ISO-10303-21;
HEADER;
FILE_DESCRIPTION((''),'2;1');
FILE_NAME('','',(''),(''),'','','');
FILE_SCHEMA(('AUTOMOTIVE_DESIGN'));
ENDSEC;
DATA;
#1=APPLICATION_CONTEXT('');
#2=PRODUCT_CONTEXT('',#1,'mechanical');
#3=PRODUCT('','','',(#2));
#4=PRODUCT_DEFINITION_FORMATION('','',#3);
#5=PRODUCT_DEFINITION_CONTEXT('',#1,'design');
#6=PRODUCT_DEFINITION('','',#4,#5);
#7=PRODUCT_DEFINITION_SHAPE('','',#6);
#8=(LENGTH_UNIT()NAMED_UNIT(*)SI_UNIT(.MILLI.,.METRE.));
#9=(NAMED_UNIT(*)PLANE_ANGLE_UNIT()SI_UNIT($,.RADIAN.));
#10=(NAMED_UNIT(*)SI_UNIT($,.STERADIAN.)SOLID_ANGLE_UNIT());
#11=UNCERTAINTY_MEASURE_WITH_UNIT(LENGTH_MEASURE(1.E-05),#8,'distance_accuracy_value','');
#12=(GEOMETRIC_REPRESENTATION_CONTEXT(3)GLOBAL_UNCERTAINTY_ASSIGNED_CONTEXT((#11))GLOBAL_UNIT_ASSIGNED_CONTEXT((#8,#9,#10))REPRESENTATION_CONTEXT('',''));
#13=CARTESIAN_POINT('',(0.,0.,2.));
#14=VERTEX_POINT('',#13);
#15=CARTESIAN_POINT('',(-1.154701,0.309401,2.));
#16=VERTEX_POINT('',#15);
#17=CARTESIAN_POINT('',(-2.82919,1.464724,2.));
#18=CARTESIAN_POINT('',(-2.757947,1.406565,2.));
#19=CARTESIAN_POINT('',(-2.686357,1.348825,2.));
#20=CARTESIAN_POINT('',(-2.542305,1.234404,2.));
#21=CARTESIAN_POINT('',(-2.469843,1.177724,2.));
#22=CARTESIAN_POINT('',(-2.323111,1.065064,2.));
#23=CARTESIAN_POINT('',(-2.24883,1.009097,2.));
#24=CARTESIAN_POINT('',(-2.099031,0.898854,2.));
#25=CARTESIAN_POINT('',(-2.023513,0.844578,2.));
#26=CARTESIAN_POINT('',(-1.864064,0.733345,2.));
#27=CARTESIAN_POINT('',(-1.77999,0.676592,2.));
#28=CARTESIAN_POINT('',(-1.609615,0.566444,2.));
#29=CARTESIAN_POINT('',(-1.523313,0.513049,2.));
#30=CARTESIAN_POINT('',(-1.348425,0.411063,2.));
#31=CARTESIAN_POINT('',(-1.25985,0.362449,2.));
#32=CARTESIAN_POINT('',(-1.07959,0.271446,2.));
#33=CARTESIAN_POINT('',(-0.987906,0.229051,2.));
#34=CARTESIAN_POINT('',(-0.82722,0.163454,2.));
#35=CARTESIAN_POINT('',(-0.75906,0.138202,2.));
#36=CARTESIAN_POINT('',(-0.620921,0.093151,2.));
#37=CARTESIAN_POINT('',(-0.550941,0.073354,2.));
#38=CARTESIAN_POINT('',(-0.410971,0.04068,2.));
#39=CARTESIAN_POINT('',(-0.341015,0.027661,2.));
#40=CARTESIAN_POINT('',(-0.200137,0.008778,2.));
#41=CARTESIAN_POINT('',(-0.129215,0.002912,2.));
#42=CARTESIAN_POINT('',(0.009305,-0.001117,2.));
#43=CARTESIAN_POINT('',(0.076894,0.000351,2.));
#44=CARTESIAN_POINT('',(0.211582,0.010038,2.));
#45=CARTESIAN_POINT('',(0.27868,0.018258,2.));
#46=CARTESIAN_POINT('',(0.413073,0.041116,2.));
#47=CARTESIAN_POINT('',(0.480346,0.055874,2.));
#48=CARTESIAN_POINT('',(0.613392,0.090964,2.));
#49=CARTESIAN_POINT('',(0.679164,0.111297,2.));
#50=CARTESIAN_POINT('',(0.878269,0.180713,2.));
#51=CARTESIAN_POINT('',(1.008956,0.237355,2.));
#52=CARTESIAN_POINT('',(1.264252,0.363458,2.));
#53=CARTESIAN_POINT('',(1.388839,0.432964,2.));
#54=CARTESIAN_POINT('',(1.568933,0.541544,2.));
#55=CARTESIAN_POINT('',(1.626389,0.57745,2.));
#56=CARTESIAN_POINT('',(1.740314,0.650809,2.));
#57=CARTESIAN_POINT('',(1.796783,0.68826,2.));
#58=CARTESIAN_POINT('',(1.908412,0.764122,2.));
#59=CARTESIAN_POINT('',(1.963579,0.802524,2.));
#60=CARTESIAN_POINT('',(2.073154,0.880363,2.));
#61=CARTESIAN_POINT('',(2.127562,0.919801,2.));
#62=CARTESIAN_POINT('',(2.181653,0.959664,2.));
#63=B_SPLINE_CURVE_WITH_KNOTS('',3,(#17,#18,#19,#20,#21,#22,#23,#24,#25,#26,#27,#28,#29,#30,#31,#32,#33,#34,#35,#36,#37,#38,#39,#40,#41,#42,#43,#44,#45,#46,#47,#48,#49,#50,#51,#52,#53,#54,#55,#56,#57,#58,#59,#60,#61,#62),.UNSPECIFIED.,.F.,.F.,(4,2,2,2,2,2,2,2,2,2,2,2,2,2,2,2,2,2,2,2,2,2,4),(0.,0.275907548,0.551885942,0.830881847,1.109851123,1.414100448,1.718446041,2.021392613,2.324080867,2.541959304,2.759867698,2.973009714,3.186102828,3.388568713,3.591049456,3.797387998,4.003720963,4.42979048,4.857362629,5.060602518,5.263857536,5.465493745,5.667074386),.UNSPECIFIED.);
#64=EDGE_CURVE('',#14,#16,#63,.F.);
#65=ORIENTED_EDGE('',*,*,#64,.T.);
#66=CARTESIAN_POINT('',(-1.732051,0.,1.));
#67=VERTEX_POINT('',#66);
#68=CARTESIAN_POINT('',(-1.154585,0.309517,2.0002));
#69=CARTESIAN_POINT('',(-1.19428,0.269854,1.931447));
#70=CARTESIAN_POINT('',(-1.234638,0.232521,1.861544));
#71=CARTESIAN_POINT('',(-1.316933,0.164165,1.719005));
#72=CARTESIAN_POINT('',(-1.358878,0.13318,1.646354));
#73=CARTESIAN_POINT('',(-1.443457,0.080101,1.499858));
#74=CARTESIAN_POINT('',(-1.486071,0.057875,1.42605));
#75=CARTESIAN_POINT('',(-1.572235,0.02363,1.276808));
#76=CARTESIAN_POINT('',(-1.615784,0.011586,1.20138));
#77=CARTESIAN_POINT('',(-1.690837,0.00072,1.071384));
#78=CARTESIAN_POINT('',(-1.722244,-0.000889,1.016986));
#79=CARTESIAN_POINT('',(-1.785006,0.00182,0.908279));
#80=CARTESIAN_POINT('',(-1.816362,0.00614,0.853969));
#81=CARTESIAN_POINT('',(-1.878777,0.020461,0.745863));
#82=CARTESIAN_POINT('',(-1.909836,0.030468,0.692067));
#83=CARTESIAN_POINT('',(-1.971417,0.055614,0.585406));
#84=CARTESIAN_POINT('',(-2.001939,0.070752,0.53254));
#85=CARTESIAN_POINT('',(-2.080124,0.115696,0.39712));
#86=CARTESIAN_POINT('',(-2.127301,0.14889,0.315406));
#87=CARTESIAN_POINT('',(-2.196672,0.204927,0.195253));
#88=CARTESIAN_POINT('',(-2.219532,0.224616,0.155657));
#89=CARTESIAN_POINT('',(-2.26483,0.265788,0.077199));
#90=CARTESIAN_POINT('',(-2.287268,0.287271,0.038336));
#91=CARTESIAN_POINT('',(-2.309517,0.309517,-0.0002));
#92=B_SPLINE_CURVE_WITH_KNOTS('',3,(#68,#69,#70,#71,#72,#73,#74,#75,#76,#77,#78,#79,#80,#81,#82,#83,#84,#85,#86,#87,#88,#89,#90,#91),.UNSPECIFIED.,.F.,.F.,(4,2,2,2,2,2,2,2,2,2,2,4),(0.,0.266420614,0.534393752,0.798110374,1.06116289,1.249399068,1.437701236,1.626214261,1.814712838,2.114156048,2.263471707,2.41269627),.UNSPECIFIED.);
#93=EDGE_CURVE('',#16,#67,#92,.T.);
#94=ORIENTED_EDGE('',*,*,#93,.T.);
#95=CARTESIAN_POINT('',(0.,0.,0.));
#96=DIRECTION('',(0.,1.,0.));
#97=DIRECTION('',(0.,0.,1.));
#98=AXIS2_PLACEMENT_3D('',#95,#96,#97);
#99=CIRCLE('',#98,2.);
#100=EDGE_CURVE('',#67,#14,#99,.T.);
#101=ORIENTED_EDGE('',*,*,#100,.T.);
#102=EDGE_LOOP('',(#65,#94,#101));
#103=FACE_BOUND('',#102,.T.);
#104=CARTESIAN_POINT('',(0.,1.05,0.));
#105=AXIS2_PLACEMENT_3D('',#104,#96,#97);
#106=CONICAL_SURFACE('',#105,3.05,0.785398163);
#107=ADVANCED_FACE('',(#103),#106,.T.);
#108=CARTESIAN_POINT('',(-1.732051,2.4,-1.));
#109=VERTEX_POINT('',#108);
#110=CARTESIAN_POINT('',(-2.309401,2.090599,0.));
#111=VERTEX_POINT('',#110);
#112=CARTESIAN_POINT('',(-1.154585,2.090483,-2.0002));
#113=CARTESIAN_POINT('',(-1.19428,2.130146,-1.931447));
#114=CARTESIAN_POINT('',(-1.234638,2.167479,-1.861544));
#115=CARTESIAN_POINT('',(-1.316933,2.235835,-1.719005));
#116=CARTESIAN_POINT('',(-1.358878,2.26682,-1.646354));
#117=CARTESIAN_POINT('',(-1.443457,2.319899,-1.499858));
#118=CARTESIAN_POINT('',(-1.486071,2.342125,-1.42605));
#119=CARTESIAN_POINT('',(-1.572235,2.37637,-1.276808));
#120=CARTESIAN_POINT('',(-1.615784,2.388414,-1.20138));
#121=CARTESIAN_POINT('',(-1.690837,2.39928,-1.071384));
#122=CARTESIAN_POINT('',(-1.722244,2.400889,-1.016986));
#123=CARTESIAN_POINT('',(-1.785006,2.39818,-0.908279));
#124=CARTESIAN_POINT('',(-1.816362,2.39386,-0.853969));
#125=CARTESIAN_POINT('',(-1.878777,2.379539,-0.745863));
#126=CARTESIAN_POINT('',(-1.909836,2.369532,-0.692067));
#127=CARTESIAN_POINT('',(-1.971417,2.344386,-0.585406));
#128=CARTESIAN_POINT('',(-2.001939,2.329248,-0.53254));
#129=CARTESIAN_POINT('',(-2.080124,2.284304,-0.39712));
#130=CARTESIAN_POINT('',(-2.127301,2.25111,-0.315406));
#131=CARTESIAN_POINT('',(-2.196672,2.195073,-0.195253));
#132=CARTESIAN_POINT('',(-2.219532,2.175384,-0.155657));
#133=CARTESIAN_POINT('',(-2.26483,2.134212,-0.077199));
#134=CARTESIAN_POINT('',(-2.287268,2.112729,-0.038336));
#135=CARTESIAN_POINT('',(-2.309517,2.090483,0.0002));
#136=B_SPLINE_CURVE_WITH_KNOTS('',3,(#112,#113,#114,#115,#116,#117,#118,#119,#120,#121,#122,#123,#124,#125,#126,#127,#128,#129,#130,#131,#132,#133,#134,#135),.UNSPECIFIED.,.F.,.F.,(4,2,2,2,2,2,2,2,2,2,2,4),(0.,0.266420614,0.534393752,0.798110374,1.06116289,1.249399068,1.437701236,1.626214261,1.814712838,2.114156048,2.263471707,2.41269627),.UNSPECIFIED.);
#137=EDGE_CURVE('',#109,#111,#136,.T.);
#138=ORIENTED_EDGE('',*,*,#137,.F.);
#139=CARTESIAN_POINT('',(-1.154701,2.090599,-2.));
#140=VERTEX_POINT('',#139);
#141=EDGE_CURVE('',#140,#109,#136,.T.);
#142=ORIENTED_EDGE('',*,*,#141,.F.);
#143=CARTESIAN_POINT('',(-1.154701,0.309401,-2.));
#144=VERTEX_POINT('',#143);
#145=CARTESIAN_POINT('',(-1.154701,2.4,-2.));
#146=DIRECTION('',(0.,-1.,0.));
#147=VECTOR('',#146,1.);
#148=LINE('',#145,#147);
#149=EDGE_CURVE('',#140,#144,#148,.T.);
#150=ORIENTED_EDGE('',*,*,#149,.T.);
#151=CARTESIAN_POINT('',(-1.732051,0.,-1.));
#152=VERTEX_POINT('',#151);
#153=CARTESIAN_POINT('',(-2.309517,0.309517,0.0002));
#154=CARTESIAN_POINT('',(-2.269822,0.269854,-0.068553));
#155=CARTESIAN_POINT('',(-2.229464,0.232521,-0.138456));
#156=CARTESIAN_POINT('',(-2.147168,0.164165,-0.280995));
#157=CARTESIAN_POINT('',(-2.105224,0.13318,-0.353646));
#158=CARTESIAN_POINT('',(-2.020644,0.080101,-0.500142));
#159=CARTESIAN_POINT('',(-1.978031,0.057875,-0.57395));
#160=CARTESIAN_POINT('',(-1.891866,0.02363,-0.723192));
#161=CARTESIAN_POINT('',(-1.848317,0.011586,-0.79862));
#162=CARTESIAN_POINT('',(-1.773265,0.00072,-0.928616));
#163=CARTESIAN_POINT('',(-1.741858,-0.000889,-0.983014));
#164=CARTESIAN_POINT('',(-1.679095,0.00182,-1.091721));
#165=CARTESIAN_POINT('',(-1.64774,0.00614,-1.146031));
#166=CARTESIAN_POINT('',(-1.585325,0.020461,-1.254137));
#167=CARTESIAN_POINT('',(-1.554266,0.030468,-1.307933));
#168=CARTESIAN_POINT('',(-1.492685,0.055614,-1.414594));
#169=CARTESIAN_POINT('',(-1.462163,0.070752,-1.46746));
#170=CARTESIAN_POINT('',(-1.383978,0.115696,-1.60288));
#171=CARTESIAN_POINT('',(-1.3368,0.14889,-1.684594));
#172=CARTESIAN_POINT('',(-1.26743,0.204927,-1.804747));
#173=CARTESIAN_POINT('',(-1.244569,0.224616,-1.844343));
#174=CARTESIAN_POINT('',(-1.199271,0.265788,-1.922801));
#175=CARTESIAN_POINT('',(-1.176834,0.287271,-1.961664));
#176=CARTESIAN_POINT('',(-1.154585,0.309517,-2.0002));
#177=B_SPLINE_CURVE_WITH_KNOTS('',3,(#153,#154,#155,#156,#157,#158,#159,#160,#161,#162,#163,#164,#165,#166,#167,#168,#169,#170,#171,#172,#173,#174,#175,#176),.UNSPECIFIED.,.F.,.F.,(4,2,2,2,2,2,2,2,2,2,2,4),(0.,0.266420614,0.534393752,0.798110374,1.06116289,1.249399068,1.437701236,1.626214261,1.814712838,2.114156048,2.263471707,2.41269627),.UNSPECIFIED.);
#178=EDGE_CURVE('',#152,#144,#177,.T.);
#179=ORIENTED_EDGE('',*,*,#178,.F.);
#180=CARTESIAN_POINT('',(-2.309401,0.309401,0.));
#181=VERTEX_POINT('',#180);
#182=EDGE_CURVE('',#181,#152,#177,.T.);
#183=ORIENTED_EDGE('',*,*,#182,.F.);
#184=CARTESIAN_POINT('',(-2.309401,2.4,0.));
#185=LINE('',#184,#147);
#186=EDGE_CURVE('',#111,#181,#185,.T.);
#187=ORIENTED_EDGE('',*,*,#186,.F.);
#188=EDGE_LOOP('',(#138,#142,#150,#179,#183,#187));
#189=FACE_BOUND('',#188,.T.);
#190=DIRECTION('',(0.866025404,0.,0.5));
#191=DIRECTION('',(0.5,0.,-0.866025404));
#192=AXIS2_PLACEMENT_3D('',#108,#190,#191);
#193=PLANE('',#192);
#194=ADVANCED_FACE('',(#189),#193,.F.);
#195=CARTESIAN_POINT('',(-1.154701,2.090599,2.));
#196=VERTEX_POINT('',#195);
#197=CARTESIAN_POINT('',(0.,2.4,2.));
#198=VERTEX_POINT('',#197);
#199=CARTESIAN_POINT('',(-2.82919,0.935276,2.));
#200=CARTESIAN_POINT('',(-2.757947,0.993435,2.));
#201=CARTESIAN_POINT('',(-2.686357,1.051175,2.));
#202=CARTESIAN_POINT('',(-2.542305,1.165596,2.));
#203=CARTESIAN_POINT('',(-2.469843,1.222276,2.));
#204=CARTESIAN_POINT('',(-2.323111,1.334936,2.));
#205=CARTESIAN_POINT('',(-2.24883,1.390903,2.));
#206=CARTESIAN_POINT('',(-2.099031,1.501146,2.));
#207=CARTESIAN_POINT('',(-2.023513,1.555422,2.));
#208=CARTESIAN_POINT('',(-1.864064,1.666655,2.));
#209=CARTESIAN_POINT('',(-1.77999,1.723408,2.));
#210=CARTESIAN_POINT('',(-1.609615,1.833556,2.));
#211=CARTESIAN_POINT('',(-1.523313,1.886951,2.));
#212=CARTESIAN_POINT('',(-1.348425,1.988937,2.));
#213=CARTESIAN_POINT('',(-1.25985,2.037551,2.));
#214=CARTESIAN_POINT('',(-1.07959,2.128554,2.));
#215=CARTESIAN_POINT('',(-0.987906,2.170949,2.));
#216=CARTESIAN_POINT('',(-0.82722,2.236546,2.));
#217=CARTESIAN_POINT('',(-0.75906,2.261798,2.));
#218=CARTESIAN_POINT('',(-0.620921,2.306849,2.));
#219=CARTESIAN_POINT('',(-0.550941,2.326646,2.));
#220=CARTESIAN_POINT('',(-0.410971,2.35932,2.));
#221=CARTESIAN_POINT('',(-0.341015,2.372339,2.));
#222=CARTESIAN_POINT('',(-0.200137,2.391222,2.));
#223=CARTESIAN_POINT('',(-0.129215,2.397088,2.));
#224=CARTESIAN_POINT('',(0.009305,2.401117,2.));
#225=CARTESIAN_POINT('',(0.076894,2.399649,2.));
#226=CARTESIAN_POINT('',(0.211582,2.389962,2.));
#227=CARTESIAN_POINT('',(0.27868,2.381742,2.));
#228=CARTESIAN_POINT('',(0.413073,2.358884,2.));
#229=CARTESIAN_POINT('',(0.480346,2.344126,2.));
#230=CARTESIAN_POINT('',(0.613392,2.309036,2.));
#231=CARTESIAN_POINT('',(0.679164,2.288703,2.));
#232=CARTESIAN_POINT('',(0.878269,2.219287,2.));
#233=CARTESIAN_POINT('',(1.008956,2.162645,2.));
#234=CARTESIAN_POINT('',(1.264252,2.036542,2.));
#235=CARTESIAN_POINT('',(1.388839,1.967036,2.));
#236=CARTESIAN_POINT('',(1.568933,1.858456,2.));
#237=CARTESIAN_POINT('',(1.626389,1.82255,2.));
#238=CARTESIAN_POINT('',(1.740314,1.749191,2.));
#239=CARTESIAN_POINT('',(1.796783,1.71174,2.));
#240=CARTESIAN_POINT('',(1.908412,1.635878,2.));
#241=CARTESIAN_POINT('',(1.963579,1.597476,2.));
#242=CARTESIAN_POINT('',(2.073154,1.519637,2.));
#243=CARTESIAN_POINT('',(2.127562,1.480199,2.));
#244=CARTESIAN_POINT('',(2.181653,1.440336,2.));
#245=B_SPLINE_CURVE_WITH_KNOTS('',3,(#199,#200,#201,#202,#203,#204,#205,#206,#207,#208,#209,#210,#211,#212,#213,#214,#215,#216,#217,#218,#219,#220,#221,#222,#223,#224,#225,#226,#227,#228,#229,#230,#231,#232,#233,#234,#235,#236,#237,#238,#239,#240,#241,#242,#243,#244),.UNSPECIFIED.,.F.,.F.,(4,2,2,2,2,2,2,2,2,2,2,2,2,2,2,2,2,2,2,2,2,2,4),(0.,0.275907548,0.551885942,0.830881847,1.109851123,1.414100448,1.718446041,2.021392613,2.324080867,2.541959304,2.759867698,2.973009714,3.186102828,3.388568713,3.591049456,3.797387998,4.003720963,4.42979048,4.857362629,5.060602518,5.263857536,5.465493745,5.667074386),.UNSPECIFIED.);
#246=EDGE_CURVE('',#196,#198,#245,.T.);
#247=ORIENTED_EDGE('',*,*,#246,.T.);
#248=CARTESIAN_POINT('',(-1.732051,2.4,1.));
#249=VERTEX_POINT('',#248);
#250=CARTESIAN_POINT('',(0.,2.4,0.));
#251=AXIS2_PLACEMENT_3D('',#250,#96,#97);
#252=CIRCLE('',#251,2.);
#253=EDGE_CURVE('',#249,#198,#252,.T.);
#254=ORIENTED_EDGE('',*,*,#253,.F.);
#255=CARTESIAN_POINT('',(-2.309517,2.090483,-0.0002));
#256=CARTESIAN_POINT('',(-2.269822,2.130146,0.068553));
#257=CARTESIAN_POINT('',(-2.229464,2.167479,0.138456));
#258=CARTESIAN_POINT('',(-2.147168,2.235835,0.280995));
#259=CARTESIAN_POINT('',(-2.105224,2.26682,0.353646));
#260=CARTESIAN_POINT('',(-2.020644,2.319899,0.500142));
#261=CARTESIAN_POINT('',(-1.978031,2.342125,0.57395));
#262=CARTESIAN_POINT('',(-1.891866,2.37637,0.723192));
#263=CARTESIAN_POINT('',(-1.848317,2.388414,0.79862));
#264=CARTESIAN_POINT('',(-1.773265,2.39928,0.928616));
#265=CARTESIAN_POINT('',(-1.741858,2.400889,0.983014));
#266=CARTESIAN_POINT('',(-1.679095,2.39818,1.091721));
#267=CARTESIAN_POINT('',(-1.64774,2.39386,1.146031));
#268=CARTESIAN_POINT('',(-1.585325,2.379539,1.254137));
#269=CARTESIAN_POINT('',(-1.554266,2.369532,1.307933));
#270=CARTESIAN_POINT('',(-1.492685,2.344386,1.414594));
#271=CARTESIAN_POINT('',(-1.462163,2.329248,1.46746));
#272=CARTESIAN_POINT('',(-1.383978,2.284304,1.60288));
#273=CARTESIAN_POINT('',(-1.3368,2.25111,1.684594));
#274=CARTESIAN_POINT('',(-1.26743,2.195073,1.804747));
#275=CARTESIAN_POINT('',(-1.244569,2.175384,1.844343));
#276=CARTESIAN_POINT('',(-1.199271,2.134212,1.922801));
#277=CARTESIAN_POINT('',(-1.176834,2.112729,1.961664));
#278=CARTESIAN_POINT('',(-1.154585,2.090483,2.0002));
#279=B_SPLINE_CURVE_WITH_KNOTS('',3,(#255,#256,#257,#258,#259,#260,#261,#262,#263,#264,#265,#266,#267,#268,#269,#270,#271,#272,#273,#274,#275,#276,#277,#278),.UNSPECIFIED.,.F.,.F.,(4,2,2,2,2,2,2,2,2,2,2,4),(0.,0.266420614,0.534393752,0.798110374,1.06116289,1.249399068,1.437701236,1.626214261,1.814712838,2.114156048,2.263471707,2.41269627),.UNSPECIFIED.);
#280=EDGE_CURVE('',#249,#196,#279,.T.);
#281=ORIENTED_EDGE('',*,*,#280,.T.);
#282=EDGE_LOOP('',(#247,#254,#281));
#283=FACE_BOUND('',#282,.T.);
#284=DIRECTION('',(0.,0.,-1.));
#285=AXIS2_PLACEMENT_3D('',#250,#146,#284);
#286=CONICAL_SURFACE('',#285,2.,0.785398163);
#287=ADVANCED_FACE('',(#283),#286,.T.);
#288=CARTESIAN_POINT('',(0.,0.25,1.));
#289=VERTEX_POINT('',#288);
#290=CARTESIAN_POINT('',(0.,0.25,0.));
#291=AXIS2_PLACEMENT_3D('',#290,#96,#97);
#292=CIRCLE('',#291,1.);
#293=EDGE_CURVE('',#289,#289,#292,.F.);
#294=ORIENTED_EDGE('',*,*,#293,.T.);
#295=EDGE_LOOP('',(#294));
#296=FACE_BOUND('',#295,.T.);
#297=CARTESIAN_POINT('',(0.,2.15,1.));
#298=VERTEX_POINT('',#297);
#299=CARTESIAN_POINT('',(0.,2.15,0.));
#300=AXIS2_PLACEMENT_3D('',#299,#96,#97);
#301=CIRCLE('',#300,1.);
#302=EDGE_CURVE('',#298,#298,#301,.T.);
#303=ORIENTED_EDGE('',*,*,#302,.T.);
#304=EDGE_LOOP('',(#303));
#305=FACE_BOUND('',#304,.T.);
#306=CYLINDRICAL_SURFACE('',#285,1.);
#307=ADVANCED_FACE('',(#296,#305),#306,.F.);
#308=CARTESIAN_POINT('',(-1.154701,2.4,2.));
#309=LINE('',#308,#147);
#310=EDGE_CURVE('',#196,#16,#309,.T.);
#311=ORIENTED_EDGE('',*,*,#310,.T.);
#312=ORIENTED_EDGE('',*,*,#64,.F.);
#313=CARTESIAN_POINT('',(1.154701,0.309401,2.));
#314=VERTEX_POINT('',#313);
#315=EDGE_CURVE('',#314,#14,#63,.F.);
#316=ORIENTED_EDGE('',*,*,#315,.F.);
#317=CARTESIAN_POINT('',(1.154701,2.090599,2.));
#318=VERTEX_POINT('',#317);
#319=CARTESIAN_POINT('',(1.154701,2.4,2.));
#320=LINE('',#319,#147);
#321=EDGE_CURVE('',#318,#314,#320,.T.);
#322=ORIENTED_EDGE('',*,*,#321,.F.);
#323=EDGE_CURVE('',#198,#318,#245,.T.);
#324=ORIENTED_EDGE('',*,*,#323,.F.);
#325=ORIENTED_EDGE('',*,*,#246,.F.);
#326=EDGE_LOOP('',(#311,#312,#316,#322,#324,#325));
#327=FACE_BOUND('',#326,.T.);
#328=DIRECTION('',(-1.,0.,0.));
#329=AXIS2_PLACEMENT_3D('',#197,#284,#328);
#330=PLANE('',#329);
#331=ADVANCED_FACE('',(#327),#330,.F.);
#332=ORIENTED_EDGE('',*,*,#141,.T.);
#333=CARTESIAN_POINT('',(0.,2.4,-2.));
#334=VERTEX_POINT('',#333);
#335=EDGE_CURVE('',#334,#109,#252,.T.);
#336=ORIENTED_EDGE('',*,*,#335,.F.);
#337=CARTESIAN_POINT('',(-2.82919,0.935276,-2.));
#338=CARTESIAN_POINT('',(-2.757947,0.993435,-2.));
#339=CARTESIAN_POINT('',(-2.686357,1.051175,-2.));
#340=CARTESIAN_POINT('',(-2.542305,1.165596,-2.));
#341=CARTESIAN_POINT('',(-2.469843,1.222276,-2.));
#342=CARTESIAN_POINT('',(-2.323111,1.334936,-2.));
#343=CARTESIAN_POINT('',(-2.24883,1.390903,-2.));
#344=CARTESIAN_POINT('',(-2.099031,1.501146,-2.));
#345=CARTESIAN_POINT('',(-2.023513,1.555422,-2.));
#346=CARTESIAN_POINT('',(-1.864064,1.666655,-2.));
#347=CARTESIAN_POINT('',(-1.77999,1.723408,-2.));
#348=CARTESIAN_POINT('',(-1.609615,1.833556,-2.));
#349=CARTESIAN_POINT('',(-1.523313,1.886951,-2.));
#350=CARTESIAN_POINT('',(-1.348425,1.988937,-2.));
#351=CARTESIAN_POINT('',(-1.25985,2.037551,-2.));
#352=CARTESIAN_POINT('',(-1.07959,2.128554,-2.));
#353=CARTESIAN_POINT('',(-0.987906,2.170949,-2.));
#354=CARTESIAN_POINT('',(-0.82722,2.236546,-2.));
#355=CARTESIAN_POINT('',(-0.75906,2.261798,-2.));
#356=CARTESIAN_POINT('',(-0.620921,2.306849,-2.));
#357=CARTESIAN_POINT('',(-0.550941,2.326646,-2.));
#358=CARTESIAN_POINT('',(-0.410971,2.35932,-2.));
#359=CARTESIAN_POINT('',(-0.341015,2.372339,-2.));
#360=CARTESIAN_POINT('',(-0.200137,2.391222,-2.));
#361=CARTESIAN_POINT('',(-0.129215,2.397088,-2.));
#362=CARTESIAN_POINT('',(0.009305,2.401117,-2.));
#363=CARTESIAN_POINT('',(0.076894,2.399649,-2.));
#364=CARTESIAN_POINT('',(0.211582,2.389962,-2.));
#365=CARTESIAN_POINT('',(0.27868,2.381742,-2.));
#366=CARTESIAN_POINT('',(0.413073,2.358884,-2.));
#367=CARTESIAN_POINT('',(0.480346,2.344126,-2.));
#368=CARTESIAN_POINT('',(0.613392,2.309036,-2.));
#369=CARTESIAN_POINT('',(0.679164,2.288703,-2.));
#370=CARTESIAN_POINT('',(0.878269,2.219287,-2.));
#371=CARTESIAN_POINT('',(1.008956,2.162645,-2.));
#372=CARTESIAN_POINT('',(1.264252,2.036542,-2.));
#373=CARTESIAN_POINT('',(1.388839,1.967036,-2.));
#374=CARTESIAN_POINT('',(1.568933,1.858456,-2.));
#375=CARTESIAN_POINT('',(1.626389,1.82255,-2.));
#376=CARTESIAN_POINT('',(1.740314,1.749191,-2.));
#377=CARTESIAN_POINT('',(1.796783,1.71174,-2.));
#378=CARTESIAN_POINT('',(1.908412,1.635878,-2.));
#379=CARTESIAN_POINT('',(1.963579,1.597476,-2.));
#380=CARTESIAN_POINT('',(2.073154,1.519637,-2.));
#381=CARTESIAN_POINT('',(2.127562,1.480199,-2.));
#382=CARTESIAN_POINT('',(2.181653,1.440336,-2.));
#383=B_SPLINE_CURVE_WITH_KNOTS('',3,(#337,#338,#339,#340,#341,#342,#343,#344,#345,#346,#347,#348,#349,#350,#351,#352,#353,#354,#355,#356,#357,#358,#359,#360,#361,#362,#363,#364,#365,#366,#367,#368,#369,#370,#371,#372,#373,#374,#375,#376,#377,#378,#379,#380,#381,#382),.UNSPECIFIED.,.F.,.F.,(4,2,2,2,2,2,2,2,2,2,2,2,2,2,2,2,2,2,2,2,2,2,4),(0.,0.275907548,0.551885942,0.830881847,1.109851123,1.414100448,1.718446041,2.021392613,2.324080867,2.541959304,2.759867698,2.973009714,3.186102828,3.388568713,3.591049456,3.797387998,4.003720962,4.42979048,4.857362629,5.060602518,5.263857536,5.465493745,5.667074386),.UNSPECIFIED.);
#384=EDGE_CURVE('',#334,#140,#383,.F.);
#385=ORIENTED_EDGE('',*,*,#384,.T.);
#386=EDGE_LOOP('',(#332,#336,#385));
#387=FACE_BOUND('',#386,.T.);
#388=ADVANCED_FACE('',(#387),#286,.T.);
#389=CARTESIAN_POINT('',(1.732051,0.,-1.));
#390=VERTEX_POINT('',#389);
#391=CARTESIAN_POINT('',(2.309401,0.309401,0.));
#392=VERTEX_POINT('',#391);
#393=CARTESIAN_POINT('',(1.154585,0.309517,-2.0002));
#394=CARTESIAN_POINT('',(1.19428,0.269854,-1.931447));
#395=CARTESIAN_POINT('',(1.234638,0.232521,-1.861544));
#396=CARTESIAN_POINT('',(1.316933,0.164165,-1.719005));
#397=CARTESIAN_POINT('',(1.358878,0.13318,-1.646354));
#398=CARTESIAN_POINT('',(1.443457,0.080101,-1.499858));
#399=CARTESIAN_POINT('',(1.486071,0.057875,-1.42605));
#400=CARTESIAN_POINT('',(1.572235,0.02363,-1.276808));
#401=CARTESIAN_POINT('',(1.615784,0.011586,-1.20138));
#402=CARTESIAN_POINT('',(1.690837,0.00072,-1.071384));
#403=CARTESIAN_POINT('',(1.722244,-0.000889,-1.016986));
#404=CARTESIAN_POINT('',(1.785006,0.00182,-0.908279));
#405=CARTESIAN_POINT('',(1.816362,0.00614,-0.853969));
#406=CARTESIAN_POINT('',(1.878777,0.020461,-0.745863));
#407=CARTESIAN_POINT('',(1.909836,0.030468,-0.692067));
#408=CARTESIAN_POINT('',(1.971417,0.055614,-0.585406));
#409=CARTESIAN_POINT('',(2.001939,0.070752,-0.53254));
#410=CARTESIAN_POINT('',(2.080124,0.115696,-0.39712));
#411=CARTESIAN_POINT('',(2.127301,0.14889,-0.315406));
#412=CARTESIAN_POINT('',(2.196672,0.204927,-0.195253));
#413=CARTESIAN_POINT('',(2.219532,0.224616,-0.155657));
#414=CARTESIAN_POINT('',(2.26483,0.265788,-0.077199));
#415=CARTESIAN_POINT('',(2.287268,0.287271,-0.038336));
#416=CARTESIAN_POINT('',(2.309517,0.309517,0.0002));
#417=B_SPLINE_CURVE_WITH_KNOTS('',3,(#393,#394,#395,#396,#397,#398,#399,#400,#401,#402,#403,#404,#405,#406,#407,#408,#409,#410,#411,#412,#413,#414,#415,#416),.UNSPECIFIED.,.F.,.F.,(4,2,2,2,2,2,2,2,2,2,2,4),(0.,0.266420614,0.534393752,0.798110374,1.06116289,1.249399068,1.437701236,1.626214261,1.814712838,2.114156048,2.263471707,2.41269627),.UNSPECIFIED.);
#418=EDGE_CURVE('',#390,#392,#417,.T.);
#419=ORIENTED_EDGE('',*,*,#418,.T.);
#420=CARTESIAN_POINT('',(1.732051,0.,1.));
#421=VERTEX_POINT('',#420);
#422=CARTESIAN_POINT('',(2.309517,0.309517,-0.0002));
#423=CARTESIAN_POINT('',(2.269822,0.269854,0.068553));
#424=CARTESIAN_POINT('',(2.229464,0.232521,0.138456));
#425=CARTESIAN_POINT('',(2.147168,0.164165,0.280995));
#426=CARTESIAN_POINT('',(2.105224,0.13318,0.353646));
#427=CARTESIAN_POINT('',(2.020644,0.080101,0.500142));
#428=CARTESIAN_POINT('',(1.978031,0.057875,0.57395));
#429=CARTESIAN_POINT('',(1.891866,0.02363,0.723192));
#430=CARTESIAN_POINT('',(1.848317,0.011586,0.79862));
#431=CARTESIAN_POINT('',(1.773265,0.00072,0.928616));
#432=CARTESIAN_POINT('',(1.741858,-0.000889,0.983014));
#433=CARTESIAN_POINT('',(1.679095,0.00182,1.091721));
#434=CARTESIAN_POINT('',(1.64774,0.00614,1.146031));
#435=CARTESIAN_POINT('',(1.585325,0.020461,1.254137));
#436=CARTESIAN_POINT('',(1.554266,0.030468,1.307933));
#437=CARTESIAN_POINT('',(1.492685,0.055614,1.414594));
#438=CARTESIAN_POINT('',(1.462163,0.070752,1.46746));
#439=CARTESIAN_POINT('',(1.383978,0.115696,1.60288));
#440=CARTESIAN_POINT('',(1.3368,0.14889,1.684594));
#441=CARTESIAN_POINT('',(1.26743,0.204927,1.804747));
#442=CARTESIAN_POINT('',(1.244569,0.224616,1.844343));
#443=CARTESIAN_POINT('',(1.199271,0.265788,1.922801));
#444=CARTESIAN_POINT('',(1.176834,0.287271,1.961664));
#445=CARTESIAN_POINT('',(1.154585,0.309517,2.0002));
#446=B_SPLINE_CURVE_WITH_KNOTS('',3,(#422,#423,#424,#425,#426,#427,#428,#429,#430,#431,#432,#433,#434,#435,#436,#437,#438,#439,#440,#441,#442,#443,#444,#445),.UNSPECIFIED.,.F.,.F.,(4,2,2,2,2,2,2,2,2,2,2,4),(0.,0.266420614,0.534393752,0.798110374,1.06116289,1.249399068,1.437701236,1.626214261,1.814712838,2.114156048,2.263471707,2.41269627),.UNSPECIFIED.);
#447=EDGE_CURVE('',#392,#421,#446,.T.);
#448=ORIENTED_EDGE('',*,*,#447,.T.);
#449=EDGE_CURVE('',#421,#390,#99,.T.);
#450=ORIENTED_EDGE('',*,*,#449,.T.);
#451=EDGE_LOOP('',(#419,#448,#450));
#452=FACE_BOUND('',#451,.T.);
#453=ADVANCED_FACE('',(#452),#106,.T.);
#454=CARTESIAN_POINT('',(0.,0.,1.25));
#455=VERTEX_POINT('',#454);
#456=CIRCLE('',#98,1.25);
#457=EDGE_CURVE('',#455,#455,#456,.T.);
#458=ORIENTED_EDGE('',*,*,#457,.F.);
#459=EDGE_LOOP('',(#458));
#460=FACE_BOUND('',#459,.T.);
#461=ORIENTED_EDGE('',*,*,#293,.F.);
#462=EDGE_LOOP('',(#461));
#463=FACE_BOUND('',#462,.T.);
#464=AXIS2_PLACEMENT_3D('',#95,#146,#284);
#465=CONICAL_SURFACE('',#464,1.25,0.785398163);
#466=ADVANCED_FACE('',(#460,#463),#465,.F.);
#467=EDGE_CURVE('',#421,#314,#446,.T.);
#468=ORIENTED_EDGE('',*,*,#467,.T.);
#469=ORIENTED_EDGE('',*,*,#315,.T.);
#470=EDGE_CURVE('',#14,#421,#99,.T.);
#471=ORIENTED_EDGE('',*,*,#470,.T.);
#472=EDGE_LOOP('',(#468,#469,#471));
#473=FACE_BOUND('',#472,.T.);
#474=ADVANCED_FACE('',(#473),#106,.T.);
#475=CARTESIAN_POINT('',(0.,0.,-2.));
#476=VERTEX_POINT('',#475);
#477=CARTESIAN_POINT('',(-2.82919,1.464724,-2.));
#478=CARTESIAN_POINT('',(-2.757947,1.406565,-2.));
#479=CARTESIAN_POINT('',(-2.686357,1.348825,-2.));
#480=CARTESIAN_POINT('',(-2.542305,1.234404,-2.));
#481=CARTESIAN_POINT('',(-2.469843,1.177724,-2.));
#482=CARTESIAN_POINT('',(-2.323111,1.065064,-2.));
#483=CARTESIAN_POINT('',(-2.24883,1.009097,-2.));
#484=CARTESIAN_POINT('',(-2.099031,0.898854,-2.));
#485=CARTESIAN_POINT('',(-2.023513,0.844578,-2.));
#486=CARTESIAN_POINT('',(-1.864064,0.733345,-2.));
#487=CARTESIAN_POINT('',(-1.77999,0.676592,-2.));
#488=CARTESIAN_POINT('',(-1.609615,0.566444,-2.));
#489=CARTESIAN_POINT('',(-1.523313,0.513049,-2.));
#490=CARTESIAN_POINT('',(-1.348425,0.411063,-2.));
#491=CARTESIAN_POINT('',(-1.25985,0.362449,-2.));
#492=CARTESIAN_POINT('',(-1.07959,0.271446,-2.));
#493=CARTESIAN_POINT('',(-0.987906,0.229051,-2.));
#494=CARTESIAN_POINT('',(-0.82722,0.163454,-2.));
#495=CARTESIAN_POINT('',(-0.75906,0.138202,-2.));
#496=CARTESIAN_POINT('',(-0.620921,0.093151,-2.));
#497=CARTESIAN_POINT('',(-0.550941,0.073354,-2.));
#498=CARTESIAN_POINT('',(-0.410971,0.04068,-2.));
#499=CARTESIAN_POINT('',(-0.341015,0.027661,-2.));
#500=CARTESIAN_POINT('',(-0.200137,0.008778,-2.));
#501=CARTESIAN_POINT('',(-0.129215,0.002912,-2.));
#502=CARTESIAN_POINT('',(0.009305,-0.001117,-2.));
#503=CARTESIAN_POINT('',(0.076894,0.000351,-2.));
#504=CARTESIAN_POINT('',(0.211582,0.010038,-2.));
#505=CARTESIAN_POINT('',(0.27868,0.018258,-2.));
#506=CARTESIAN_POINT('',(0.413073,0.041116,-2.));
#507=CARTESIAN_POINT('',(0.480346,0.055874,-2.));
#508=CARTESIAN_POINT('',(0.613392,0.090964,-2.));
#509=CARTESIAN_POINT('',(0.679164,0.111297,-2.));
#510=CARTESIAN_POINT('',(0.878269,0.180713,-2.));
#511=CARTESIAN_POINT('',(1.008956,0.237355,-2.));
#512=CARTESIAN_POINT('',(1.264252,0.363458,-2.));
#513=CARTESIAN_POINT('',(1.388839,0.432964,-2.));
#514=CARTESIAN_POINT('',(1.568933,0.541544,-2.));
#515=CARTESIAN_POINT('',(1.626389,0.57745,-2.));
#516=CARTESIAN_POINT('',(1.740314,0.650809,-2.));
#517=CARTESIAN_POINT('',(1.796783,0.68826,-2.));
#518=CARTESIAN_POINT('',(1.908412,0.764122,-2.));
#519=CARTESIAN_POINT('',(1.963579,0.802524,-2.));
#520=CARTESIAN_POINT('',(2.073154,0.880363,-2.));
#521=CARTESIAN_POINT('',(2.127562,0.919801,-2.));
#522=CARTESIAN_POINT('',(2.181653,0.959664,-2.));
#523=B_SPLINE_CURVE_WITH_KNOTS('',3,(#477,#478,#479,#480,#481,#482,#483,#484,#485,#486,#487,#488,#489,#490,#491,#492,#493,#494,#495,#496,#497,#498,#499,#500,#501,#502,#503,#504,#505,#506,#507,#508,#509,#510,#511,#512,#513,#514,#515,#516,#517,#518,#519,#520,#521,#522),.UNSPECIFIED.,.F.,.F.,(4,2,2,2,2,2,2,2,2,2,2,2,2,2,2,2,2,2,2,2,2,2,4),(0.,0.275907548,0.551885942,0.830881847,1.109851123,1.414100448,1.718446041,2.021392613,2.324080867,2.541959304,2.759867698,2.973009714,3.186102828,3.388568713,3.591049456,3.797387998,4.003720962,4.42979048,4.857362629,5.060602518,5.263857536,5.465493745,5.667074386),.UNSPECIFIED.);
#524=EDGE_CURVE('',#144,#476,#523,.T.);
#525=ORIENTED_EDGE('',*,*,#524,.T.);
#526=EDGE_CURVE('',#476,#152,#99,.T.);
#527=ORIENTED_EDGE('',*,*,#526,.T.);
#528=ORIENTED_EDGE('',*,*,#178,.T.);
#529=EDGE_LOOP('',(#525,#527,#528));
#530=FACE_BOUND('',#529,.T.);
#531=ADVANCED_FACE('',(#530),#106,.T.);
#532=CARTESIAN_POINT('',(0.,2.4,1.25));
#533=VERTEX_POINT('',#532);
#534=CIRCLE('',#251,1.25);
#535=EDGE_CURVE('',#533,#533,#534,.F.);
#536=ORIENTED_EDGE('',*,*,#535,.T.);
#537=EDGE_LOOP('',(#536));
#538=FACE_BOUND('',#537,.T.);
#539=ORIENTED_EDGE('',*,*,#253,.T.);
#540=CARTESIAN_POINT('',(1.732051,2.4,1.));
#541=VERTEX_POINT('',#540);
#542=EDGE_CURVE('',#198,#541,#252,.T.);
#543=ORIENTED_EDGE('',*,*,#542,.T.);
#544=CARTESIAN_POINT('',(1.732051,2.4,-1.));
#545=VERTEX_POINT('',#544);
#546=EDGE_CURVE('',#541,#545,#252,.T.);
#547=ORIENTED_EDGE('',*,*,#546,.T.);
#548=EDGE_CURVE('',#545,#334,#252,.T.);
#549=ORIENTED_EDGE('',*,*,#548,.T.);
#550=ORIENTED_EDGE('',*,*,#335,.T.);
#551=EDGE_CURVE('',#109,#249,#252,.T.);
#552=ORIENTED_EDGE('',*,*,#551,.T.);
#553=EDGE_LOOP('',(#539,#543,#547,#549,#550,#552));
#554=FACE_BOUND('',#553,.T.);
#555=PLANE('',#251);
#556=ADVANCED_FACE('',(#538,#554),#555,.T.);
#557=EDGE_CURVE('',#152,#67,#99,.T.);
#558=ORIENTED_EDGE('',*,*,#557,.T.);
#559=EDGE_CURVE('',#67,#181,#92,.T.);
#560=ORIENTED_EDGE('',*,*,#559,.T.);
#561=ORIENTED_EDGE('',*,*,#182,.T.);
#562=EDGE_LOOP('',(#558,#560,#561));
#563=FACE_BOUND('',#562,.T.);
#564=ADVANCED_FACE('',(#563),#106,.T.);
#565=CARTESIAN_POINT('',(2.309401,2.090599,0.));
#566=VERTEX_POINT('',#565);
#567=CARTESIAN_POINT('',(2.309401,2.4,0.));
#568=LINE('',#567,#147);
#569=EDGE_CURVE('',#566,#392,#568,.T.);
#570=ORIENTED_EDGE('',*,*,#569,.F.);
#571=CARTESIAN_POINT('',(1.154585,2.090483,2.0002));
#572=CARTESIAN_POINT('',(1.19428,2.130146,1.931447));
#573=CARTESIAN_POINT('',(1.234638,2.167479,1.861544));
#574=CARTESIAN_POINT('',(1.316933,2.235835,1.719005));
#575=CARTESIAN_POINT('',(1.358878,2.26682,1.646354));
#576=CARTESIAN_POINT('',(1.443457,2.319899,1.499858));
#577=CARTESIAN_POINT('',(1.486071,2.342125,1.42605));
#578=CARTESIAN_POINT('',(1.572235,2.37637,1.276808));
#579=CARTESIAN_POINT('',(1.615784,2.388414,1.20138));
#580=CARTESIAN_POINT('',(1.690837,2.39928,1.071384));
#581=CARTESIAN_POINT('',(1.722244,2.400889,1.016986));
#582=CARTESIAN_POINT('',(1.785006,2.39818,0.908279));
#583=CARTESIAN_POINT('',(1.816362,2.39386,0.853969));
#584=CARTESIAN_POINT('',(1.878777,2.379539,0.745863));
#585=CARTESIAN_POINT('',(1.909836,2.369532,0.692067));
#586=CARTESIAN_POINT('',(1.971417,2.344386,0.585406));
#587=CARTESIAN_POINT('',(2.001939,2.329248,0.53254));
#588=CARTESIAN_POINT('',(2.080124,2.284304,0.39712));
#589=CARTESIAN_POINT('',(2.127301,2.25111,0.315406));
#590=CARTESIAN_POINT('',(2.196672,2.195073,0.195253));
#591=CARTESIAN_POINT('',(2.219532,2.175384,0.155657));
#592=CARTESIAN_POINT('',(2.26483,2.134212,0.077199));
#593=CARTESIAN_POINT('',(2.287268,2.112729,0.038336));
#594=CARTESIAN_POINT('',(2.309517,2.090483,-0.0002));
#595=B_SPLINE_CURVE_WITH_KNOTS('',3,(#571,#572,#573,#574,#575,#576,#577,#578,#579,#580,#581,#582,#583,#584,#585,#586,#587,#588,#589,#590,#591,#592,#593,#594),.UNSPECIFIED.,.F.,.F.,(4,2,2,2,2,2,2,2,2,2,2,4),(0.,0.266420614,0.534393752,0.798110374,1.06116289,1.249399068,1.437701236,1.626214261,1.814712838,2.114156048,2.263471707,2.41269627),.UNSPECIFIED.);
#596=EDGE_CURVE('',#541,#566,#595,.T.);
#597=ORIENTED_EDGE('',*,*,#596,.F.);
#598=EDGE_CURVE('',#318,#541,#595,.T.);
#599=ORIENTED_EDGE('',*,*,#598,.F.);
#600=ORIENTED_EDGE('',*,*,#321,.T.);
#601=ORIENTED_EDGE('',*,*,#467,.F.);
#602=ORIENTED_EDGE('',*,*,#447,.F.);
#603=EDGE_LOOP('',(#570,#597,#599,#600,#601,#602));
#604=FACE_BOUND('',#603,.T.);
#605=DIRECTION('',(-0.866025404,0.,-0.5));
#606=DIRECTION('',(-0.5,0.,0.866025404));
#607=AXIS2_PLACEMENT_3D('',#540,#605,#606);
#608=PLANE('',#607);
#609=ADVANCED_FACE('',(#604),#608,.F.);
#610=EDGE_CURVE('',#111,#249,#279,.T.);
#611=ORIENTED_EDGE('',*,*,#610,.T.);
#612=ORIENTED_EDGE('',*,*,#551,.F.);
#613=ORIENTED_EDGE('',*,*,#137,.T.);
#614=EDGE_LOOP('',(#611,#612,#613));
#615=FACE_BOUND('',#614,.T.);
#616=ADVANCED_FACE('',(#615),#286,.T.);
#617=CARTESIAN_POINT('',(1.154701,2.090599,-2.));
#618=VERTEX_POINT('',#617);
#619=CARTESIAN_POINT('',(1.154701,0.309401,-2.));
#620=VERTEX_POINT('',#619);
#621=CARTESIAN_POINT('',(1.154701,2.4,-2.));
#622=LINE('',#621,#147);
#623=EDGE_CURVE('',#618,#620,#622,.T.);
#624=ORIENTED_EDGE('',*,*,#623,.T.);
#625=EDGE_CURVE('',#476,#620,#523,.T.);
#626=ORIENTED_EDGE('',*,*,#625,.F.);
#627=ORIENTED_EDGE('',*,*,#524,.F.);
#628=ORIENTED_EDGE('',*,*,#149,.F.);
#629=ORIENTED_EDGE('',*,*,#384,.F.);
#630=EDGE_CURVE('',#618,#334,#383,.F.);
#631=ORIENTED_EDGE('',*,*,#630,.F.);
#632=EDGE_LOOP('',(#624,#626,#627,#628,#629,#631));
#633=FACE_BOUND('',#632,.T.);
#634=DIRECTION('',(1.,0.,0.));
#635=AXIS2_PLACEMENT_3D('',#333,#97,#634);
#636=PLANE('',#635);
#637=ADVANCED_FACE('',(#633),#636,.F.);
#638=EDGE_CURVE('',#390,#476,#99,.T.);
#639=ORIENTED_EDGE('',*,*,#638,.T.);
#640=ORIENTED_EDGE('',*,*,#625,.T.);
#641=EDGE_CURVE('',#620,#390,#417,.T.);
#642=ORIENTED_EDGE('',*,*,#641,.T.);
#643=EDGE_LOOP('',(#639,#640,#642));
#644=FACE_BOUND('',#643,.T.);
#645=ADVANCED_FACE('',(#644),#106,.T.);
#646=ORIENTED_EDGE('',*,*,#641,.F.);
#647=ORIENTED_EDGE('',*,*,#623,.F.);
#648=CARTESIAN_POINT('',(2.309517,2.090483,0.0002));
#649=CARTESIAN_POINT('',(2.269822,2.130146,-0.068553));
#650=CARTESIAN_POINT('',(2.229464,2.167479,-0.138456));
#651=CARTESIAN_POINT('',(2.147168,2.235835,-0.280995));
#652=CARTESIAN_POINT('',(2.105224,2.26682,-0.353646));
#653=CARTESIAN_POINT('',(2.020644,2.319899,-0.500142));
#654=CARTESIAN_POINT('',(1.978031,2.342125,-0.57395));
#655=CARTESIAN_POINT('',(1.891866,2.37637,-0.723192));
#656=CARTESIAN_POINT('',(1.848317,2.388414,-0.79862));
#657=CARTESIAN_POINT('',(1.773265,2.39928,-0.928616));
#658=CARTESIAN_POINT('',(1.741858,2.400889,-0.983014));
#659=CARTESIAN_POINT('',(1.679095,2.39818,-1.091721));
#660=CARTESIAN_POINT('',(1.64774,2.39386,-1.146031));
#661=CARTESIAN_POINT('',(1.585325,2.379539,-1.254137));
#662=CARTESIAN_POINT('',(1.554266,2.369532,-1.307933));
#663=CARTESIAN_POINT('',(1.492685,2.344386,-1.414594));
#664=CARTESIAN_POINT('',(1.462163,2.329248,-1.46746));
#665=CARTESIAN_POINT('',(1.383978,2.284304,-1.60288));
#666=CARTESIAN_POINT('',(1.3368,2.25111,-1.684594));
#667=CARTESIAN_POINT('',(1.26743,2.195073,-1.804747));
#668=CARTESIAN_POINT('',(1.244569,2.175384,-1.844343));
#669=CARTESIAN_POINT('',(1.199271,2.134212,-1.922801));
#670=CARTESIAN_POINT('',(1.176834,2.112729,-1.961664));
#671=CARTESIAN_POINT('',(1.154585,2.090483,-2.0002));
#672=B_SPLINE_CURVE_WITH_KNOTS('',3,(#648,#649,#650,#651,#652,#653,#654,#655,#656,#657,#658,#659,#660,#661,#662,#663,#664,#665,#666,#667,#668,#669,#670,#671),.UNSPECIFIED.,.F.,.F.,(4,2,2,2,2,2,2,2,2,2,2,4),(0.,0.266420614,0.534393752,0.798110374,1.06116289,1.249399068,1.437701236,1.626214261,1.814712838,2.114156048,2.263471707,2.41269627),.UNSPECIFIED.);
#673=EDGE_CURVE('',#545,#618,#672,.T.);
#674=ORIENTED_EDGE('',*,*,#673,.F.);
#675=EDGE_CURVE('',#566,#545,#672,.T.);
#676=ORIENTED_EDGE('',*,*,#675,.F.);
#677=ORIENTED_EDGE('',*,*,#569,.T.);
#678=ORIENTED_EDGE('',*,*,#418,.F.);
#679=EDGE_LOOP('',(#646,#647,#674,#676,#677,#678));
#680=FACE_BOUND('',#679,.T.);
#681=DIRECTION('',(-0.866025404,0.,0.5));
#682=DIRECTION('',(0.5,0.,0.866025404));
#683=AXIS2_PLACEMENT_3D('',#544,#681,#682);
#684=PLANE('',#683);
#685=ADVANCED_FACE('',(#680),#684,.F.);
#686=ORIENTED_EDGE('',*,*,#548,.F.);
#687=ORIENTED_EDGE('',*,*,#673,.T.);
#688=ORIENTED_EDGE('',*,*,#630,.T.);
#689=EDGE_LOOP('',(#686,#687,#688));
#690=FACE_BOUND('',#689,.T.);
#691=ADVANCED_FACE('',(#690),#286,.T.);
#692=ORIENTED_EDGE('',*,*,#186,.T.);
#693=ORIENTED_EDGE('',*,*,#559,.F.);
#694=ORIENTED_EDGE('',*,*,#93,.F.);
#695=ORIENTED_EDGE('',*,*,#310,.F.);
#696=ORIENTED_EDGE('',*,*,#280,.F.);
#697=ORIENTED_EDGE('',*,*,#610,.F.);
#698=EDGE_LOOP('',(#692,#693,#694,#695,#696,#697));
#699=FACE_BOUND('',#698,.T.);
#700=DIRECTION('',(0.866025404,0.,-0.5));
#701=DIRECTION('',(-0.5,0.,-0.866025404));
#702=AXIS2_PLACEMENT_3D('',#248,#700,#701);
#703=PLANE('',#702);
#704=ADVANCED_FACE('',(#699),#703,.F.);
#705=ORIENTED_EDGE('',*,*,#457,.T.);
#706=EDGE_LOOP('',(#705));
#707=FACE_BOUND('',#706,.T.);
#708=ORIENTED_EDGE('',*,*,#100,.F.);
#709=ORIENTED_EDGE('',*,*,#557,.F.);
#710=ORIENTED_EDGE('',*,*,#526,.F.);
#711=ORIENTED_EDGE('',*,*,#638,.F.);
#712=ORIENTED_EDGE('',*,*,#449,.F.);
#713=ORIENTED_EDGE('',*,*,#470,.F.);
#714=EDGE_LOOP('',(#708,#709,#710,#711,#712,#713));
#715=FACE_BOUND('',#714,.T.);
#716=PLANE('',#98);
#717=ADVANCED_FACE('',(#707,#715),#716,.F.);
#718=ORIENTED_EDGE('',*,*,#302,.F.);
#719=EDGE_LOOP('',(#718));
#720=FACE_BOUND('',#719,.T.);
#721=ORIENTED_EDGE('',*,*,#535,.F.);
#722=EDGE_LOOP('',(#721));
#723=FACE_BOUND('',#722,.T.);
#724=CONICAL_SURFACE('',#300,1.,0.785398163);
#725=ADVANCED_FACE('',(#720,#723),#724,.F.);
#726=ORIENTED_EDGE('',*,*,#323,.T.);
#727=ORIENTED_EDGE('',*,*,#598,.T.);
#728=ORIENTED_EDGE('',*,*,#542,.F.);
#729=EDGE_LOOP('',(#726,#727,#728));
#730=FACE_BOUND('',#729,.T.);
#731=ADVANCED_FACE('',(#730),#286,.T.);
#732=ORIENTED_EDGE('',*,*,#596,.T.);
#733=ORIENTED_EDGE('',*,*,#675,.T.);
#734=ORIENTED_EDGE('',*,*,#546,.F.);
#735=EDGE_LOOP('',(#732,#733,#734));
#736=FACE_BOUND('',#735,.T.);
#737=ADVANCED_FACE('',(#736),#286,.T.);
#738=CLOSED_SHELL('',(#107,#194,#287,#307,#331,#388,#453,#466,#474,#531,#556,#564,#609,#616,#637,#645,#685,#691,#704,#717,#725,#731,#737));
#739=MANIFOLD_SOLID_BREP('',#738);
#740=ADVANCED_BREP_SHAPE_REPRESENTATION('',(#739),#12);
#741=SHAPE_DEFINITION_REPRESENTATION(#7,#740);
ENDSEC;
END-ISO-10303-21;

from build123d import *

# Parameters (mm, degrees)
SKETCH1_R           = 1
BOSS_EXTRUDE1_DEPTH = 2.4
CHAMFER2_SIZE       = 0.25


with BuildPart() as part:
    # Sketch1 → Boss-Extrude1 (new body)
    with BuildSketch(Plane(origin=(0, 0, 0), x_dir=(1, 0, 0), z_dir=(0, 1, 0))):
        Polygon((1.154700538, -2), (2.309401077, 0), (1.154700538, 2), (-1.154700538, 2), (-2.309401077, 0), (-1.154700538, -2), align=None)
        Circle(SKETCH1_R, mode=Mode.SUBTRACT)
    extrude(amount=BOSS_EXTRUDE1_DEPTH)

    # Sketch2 → Cut-Revolve1 (revolve, cut)
    with BuildSketch(Plane(origin=(0, 0, 0), x_dir=(0, 0, -1), z_dir=(1, 0, 0))):
        Polygon((2, 2.4), (3.05, 3.45), (3.05, 1.35), align=None)
        Polygon((3.05, 1.05), (2, 0), (3.05, -1.05), align=None)
    revolve(axis=Axis((0, 2.4, 0), (0, -1, 0)), mode=Mode.SUBTRACT)

    # Chamfer2
    chamfer2_edges = [part.edges().sort_by_distance(p)[0] for p in [
        (-1, 2.4, 0),
        (-1, 0, 0),
    ]]
    chamfer(chamfer2_edges, length=CHAMFER2_SIZE)


solid = part.part
